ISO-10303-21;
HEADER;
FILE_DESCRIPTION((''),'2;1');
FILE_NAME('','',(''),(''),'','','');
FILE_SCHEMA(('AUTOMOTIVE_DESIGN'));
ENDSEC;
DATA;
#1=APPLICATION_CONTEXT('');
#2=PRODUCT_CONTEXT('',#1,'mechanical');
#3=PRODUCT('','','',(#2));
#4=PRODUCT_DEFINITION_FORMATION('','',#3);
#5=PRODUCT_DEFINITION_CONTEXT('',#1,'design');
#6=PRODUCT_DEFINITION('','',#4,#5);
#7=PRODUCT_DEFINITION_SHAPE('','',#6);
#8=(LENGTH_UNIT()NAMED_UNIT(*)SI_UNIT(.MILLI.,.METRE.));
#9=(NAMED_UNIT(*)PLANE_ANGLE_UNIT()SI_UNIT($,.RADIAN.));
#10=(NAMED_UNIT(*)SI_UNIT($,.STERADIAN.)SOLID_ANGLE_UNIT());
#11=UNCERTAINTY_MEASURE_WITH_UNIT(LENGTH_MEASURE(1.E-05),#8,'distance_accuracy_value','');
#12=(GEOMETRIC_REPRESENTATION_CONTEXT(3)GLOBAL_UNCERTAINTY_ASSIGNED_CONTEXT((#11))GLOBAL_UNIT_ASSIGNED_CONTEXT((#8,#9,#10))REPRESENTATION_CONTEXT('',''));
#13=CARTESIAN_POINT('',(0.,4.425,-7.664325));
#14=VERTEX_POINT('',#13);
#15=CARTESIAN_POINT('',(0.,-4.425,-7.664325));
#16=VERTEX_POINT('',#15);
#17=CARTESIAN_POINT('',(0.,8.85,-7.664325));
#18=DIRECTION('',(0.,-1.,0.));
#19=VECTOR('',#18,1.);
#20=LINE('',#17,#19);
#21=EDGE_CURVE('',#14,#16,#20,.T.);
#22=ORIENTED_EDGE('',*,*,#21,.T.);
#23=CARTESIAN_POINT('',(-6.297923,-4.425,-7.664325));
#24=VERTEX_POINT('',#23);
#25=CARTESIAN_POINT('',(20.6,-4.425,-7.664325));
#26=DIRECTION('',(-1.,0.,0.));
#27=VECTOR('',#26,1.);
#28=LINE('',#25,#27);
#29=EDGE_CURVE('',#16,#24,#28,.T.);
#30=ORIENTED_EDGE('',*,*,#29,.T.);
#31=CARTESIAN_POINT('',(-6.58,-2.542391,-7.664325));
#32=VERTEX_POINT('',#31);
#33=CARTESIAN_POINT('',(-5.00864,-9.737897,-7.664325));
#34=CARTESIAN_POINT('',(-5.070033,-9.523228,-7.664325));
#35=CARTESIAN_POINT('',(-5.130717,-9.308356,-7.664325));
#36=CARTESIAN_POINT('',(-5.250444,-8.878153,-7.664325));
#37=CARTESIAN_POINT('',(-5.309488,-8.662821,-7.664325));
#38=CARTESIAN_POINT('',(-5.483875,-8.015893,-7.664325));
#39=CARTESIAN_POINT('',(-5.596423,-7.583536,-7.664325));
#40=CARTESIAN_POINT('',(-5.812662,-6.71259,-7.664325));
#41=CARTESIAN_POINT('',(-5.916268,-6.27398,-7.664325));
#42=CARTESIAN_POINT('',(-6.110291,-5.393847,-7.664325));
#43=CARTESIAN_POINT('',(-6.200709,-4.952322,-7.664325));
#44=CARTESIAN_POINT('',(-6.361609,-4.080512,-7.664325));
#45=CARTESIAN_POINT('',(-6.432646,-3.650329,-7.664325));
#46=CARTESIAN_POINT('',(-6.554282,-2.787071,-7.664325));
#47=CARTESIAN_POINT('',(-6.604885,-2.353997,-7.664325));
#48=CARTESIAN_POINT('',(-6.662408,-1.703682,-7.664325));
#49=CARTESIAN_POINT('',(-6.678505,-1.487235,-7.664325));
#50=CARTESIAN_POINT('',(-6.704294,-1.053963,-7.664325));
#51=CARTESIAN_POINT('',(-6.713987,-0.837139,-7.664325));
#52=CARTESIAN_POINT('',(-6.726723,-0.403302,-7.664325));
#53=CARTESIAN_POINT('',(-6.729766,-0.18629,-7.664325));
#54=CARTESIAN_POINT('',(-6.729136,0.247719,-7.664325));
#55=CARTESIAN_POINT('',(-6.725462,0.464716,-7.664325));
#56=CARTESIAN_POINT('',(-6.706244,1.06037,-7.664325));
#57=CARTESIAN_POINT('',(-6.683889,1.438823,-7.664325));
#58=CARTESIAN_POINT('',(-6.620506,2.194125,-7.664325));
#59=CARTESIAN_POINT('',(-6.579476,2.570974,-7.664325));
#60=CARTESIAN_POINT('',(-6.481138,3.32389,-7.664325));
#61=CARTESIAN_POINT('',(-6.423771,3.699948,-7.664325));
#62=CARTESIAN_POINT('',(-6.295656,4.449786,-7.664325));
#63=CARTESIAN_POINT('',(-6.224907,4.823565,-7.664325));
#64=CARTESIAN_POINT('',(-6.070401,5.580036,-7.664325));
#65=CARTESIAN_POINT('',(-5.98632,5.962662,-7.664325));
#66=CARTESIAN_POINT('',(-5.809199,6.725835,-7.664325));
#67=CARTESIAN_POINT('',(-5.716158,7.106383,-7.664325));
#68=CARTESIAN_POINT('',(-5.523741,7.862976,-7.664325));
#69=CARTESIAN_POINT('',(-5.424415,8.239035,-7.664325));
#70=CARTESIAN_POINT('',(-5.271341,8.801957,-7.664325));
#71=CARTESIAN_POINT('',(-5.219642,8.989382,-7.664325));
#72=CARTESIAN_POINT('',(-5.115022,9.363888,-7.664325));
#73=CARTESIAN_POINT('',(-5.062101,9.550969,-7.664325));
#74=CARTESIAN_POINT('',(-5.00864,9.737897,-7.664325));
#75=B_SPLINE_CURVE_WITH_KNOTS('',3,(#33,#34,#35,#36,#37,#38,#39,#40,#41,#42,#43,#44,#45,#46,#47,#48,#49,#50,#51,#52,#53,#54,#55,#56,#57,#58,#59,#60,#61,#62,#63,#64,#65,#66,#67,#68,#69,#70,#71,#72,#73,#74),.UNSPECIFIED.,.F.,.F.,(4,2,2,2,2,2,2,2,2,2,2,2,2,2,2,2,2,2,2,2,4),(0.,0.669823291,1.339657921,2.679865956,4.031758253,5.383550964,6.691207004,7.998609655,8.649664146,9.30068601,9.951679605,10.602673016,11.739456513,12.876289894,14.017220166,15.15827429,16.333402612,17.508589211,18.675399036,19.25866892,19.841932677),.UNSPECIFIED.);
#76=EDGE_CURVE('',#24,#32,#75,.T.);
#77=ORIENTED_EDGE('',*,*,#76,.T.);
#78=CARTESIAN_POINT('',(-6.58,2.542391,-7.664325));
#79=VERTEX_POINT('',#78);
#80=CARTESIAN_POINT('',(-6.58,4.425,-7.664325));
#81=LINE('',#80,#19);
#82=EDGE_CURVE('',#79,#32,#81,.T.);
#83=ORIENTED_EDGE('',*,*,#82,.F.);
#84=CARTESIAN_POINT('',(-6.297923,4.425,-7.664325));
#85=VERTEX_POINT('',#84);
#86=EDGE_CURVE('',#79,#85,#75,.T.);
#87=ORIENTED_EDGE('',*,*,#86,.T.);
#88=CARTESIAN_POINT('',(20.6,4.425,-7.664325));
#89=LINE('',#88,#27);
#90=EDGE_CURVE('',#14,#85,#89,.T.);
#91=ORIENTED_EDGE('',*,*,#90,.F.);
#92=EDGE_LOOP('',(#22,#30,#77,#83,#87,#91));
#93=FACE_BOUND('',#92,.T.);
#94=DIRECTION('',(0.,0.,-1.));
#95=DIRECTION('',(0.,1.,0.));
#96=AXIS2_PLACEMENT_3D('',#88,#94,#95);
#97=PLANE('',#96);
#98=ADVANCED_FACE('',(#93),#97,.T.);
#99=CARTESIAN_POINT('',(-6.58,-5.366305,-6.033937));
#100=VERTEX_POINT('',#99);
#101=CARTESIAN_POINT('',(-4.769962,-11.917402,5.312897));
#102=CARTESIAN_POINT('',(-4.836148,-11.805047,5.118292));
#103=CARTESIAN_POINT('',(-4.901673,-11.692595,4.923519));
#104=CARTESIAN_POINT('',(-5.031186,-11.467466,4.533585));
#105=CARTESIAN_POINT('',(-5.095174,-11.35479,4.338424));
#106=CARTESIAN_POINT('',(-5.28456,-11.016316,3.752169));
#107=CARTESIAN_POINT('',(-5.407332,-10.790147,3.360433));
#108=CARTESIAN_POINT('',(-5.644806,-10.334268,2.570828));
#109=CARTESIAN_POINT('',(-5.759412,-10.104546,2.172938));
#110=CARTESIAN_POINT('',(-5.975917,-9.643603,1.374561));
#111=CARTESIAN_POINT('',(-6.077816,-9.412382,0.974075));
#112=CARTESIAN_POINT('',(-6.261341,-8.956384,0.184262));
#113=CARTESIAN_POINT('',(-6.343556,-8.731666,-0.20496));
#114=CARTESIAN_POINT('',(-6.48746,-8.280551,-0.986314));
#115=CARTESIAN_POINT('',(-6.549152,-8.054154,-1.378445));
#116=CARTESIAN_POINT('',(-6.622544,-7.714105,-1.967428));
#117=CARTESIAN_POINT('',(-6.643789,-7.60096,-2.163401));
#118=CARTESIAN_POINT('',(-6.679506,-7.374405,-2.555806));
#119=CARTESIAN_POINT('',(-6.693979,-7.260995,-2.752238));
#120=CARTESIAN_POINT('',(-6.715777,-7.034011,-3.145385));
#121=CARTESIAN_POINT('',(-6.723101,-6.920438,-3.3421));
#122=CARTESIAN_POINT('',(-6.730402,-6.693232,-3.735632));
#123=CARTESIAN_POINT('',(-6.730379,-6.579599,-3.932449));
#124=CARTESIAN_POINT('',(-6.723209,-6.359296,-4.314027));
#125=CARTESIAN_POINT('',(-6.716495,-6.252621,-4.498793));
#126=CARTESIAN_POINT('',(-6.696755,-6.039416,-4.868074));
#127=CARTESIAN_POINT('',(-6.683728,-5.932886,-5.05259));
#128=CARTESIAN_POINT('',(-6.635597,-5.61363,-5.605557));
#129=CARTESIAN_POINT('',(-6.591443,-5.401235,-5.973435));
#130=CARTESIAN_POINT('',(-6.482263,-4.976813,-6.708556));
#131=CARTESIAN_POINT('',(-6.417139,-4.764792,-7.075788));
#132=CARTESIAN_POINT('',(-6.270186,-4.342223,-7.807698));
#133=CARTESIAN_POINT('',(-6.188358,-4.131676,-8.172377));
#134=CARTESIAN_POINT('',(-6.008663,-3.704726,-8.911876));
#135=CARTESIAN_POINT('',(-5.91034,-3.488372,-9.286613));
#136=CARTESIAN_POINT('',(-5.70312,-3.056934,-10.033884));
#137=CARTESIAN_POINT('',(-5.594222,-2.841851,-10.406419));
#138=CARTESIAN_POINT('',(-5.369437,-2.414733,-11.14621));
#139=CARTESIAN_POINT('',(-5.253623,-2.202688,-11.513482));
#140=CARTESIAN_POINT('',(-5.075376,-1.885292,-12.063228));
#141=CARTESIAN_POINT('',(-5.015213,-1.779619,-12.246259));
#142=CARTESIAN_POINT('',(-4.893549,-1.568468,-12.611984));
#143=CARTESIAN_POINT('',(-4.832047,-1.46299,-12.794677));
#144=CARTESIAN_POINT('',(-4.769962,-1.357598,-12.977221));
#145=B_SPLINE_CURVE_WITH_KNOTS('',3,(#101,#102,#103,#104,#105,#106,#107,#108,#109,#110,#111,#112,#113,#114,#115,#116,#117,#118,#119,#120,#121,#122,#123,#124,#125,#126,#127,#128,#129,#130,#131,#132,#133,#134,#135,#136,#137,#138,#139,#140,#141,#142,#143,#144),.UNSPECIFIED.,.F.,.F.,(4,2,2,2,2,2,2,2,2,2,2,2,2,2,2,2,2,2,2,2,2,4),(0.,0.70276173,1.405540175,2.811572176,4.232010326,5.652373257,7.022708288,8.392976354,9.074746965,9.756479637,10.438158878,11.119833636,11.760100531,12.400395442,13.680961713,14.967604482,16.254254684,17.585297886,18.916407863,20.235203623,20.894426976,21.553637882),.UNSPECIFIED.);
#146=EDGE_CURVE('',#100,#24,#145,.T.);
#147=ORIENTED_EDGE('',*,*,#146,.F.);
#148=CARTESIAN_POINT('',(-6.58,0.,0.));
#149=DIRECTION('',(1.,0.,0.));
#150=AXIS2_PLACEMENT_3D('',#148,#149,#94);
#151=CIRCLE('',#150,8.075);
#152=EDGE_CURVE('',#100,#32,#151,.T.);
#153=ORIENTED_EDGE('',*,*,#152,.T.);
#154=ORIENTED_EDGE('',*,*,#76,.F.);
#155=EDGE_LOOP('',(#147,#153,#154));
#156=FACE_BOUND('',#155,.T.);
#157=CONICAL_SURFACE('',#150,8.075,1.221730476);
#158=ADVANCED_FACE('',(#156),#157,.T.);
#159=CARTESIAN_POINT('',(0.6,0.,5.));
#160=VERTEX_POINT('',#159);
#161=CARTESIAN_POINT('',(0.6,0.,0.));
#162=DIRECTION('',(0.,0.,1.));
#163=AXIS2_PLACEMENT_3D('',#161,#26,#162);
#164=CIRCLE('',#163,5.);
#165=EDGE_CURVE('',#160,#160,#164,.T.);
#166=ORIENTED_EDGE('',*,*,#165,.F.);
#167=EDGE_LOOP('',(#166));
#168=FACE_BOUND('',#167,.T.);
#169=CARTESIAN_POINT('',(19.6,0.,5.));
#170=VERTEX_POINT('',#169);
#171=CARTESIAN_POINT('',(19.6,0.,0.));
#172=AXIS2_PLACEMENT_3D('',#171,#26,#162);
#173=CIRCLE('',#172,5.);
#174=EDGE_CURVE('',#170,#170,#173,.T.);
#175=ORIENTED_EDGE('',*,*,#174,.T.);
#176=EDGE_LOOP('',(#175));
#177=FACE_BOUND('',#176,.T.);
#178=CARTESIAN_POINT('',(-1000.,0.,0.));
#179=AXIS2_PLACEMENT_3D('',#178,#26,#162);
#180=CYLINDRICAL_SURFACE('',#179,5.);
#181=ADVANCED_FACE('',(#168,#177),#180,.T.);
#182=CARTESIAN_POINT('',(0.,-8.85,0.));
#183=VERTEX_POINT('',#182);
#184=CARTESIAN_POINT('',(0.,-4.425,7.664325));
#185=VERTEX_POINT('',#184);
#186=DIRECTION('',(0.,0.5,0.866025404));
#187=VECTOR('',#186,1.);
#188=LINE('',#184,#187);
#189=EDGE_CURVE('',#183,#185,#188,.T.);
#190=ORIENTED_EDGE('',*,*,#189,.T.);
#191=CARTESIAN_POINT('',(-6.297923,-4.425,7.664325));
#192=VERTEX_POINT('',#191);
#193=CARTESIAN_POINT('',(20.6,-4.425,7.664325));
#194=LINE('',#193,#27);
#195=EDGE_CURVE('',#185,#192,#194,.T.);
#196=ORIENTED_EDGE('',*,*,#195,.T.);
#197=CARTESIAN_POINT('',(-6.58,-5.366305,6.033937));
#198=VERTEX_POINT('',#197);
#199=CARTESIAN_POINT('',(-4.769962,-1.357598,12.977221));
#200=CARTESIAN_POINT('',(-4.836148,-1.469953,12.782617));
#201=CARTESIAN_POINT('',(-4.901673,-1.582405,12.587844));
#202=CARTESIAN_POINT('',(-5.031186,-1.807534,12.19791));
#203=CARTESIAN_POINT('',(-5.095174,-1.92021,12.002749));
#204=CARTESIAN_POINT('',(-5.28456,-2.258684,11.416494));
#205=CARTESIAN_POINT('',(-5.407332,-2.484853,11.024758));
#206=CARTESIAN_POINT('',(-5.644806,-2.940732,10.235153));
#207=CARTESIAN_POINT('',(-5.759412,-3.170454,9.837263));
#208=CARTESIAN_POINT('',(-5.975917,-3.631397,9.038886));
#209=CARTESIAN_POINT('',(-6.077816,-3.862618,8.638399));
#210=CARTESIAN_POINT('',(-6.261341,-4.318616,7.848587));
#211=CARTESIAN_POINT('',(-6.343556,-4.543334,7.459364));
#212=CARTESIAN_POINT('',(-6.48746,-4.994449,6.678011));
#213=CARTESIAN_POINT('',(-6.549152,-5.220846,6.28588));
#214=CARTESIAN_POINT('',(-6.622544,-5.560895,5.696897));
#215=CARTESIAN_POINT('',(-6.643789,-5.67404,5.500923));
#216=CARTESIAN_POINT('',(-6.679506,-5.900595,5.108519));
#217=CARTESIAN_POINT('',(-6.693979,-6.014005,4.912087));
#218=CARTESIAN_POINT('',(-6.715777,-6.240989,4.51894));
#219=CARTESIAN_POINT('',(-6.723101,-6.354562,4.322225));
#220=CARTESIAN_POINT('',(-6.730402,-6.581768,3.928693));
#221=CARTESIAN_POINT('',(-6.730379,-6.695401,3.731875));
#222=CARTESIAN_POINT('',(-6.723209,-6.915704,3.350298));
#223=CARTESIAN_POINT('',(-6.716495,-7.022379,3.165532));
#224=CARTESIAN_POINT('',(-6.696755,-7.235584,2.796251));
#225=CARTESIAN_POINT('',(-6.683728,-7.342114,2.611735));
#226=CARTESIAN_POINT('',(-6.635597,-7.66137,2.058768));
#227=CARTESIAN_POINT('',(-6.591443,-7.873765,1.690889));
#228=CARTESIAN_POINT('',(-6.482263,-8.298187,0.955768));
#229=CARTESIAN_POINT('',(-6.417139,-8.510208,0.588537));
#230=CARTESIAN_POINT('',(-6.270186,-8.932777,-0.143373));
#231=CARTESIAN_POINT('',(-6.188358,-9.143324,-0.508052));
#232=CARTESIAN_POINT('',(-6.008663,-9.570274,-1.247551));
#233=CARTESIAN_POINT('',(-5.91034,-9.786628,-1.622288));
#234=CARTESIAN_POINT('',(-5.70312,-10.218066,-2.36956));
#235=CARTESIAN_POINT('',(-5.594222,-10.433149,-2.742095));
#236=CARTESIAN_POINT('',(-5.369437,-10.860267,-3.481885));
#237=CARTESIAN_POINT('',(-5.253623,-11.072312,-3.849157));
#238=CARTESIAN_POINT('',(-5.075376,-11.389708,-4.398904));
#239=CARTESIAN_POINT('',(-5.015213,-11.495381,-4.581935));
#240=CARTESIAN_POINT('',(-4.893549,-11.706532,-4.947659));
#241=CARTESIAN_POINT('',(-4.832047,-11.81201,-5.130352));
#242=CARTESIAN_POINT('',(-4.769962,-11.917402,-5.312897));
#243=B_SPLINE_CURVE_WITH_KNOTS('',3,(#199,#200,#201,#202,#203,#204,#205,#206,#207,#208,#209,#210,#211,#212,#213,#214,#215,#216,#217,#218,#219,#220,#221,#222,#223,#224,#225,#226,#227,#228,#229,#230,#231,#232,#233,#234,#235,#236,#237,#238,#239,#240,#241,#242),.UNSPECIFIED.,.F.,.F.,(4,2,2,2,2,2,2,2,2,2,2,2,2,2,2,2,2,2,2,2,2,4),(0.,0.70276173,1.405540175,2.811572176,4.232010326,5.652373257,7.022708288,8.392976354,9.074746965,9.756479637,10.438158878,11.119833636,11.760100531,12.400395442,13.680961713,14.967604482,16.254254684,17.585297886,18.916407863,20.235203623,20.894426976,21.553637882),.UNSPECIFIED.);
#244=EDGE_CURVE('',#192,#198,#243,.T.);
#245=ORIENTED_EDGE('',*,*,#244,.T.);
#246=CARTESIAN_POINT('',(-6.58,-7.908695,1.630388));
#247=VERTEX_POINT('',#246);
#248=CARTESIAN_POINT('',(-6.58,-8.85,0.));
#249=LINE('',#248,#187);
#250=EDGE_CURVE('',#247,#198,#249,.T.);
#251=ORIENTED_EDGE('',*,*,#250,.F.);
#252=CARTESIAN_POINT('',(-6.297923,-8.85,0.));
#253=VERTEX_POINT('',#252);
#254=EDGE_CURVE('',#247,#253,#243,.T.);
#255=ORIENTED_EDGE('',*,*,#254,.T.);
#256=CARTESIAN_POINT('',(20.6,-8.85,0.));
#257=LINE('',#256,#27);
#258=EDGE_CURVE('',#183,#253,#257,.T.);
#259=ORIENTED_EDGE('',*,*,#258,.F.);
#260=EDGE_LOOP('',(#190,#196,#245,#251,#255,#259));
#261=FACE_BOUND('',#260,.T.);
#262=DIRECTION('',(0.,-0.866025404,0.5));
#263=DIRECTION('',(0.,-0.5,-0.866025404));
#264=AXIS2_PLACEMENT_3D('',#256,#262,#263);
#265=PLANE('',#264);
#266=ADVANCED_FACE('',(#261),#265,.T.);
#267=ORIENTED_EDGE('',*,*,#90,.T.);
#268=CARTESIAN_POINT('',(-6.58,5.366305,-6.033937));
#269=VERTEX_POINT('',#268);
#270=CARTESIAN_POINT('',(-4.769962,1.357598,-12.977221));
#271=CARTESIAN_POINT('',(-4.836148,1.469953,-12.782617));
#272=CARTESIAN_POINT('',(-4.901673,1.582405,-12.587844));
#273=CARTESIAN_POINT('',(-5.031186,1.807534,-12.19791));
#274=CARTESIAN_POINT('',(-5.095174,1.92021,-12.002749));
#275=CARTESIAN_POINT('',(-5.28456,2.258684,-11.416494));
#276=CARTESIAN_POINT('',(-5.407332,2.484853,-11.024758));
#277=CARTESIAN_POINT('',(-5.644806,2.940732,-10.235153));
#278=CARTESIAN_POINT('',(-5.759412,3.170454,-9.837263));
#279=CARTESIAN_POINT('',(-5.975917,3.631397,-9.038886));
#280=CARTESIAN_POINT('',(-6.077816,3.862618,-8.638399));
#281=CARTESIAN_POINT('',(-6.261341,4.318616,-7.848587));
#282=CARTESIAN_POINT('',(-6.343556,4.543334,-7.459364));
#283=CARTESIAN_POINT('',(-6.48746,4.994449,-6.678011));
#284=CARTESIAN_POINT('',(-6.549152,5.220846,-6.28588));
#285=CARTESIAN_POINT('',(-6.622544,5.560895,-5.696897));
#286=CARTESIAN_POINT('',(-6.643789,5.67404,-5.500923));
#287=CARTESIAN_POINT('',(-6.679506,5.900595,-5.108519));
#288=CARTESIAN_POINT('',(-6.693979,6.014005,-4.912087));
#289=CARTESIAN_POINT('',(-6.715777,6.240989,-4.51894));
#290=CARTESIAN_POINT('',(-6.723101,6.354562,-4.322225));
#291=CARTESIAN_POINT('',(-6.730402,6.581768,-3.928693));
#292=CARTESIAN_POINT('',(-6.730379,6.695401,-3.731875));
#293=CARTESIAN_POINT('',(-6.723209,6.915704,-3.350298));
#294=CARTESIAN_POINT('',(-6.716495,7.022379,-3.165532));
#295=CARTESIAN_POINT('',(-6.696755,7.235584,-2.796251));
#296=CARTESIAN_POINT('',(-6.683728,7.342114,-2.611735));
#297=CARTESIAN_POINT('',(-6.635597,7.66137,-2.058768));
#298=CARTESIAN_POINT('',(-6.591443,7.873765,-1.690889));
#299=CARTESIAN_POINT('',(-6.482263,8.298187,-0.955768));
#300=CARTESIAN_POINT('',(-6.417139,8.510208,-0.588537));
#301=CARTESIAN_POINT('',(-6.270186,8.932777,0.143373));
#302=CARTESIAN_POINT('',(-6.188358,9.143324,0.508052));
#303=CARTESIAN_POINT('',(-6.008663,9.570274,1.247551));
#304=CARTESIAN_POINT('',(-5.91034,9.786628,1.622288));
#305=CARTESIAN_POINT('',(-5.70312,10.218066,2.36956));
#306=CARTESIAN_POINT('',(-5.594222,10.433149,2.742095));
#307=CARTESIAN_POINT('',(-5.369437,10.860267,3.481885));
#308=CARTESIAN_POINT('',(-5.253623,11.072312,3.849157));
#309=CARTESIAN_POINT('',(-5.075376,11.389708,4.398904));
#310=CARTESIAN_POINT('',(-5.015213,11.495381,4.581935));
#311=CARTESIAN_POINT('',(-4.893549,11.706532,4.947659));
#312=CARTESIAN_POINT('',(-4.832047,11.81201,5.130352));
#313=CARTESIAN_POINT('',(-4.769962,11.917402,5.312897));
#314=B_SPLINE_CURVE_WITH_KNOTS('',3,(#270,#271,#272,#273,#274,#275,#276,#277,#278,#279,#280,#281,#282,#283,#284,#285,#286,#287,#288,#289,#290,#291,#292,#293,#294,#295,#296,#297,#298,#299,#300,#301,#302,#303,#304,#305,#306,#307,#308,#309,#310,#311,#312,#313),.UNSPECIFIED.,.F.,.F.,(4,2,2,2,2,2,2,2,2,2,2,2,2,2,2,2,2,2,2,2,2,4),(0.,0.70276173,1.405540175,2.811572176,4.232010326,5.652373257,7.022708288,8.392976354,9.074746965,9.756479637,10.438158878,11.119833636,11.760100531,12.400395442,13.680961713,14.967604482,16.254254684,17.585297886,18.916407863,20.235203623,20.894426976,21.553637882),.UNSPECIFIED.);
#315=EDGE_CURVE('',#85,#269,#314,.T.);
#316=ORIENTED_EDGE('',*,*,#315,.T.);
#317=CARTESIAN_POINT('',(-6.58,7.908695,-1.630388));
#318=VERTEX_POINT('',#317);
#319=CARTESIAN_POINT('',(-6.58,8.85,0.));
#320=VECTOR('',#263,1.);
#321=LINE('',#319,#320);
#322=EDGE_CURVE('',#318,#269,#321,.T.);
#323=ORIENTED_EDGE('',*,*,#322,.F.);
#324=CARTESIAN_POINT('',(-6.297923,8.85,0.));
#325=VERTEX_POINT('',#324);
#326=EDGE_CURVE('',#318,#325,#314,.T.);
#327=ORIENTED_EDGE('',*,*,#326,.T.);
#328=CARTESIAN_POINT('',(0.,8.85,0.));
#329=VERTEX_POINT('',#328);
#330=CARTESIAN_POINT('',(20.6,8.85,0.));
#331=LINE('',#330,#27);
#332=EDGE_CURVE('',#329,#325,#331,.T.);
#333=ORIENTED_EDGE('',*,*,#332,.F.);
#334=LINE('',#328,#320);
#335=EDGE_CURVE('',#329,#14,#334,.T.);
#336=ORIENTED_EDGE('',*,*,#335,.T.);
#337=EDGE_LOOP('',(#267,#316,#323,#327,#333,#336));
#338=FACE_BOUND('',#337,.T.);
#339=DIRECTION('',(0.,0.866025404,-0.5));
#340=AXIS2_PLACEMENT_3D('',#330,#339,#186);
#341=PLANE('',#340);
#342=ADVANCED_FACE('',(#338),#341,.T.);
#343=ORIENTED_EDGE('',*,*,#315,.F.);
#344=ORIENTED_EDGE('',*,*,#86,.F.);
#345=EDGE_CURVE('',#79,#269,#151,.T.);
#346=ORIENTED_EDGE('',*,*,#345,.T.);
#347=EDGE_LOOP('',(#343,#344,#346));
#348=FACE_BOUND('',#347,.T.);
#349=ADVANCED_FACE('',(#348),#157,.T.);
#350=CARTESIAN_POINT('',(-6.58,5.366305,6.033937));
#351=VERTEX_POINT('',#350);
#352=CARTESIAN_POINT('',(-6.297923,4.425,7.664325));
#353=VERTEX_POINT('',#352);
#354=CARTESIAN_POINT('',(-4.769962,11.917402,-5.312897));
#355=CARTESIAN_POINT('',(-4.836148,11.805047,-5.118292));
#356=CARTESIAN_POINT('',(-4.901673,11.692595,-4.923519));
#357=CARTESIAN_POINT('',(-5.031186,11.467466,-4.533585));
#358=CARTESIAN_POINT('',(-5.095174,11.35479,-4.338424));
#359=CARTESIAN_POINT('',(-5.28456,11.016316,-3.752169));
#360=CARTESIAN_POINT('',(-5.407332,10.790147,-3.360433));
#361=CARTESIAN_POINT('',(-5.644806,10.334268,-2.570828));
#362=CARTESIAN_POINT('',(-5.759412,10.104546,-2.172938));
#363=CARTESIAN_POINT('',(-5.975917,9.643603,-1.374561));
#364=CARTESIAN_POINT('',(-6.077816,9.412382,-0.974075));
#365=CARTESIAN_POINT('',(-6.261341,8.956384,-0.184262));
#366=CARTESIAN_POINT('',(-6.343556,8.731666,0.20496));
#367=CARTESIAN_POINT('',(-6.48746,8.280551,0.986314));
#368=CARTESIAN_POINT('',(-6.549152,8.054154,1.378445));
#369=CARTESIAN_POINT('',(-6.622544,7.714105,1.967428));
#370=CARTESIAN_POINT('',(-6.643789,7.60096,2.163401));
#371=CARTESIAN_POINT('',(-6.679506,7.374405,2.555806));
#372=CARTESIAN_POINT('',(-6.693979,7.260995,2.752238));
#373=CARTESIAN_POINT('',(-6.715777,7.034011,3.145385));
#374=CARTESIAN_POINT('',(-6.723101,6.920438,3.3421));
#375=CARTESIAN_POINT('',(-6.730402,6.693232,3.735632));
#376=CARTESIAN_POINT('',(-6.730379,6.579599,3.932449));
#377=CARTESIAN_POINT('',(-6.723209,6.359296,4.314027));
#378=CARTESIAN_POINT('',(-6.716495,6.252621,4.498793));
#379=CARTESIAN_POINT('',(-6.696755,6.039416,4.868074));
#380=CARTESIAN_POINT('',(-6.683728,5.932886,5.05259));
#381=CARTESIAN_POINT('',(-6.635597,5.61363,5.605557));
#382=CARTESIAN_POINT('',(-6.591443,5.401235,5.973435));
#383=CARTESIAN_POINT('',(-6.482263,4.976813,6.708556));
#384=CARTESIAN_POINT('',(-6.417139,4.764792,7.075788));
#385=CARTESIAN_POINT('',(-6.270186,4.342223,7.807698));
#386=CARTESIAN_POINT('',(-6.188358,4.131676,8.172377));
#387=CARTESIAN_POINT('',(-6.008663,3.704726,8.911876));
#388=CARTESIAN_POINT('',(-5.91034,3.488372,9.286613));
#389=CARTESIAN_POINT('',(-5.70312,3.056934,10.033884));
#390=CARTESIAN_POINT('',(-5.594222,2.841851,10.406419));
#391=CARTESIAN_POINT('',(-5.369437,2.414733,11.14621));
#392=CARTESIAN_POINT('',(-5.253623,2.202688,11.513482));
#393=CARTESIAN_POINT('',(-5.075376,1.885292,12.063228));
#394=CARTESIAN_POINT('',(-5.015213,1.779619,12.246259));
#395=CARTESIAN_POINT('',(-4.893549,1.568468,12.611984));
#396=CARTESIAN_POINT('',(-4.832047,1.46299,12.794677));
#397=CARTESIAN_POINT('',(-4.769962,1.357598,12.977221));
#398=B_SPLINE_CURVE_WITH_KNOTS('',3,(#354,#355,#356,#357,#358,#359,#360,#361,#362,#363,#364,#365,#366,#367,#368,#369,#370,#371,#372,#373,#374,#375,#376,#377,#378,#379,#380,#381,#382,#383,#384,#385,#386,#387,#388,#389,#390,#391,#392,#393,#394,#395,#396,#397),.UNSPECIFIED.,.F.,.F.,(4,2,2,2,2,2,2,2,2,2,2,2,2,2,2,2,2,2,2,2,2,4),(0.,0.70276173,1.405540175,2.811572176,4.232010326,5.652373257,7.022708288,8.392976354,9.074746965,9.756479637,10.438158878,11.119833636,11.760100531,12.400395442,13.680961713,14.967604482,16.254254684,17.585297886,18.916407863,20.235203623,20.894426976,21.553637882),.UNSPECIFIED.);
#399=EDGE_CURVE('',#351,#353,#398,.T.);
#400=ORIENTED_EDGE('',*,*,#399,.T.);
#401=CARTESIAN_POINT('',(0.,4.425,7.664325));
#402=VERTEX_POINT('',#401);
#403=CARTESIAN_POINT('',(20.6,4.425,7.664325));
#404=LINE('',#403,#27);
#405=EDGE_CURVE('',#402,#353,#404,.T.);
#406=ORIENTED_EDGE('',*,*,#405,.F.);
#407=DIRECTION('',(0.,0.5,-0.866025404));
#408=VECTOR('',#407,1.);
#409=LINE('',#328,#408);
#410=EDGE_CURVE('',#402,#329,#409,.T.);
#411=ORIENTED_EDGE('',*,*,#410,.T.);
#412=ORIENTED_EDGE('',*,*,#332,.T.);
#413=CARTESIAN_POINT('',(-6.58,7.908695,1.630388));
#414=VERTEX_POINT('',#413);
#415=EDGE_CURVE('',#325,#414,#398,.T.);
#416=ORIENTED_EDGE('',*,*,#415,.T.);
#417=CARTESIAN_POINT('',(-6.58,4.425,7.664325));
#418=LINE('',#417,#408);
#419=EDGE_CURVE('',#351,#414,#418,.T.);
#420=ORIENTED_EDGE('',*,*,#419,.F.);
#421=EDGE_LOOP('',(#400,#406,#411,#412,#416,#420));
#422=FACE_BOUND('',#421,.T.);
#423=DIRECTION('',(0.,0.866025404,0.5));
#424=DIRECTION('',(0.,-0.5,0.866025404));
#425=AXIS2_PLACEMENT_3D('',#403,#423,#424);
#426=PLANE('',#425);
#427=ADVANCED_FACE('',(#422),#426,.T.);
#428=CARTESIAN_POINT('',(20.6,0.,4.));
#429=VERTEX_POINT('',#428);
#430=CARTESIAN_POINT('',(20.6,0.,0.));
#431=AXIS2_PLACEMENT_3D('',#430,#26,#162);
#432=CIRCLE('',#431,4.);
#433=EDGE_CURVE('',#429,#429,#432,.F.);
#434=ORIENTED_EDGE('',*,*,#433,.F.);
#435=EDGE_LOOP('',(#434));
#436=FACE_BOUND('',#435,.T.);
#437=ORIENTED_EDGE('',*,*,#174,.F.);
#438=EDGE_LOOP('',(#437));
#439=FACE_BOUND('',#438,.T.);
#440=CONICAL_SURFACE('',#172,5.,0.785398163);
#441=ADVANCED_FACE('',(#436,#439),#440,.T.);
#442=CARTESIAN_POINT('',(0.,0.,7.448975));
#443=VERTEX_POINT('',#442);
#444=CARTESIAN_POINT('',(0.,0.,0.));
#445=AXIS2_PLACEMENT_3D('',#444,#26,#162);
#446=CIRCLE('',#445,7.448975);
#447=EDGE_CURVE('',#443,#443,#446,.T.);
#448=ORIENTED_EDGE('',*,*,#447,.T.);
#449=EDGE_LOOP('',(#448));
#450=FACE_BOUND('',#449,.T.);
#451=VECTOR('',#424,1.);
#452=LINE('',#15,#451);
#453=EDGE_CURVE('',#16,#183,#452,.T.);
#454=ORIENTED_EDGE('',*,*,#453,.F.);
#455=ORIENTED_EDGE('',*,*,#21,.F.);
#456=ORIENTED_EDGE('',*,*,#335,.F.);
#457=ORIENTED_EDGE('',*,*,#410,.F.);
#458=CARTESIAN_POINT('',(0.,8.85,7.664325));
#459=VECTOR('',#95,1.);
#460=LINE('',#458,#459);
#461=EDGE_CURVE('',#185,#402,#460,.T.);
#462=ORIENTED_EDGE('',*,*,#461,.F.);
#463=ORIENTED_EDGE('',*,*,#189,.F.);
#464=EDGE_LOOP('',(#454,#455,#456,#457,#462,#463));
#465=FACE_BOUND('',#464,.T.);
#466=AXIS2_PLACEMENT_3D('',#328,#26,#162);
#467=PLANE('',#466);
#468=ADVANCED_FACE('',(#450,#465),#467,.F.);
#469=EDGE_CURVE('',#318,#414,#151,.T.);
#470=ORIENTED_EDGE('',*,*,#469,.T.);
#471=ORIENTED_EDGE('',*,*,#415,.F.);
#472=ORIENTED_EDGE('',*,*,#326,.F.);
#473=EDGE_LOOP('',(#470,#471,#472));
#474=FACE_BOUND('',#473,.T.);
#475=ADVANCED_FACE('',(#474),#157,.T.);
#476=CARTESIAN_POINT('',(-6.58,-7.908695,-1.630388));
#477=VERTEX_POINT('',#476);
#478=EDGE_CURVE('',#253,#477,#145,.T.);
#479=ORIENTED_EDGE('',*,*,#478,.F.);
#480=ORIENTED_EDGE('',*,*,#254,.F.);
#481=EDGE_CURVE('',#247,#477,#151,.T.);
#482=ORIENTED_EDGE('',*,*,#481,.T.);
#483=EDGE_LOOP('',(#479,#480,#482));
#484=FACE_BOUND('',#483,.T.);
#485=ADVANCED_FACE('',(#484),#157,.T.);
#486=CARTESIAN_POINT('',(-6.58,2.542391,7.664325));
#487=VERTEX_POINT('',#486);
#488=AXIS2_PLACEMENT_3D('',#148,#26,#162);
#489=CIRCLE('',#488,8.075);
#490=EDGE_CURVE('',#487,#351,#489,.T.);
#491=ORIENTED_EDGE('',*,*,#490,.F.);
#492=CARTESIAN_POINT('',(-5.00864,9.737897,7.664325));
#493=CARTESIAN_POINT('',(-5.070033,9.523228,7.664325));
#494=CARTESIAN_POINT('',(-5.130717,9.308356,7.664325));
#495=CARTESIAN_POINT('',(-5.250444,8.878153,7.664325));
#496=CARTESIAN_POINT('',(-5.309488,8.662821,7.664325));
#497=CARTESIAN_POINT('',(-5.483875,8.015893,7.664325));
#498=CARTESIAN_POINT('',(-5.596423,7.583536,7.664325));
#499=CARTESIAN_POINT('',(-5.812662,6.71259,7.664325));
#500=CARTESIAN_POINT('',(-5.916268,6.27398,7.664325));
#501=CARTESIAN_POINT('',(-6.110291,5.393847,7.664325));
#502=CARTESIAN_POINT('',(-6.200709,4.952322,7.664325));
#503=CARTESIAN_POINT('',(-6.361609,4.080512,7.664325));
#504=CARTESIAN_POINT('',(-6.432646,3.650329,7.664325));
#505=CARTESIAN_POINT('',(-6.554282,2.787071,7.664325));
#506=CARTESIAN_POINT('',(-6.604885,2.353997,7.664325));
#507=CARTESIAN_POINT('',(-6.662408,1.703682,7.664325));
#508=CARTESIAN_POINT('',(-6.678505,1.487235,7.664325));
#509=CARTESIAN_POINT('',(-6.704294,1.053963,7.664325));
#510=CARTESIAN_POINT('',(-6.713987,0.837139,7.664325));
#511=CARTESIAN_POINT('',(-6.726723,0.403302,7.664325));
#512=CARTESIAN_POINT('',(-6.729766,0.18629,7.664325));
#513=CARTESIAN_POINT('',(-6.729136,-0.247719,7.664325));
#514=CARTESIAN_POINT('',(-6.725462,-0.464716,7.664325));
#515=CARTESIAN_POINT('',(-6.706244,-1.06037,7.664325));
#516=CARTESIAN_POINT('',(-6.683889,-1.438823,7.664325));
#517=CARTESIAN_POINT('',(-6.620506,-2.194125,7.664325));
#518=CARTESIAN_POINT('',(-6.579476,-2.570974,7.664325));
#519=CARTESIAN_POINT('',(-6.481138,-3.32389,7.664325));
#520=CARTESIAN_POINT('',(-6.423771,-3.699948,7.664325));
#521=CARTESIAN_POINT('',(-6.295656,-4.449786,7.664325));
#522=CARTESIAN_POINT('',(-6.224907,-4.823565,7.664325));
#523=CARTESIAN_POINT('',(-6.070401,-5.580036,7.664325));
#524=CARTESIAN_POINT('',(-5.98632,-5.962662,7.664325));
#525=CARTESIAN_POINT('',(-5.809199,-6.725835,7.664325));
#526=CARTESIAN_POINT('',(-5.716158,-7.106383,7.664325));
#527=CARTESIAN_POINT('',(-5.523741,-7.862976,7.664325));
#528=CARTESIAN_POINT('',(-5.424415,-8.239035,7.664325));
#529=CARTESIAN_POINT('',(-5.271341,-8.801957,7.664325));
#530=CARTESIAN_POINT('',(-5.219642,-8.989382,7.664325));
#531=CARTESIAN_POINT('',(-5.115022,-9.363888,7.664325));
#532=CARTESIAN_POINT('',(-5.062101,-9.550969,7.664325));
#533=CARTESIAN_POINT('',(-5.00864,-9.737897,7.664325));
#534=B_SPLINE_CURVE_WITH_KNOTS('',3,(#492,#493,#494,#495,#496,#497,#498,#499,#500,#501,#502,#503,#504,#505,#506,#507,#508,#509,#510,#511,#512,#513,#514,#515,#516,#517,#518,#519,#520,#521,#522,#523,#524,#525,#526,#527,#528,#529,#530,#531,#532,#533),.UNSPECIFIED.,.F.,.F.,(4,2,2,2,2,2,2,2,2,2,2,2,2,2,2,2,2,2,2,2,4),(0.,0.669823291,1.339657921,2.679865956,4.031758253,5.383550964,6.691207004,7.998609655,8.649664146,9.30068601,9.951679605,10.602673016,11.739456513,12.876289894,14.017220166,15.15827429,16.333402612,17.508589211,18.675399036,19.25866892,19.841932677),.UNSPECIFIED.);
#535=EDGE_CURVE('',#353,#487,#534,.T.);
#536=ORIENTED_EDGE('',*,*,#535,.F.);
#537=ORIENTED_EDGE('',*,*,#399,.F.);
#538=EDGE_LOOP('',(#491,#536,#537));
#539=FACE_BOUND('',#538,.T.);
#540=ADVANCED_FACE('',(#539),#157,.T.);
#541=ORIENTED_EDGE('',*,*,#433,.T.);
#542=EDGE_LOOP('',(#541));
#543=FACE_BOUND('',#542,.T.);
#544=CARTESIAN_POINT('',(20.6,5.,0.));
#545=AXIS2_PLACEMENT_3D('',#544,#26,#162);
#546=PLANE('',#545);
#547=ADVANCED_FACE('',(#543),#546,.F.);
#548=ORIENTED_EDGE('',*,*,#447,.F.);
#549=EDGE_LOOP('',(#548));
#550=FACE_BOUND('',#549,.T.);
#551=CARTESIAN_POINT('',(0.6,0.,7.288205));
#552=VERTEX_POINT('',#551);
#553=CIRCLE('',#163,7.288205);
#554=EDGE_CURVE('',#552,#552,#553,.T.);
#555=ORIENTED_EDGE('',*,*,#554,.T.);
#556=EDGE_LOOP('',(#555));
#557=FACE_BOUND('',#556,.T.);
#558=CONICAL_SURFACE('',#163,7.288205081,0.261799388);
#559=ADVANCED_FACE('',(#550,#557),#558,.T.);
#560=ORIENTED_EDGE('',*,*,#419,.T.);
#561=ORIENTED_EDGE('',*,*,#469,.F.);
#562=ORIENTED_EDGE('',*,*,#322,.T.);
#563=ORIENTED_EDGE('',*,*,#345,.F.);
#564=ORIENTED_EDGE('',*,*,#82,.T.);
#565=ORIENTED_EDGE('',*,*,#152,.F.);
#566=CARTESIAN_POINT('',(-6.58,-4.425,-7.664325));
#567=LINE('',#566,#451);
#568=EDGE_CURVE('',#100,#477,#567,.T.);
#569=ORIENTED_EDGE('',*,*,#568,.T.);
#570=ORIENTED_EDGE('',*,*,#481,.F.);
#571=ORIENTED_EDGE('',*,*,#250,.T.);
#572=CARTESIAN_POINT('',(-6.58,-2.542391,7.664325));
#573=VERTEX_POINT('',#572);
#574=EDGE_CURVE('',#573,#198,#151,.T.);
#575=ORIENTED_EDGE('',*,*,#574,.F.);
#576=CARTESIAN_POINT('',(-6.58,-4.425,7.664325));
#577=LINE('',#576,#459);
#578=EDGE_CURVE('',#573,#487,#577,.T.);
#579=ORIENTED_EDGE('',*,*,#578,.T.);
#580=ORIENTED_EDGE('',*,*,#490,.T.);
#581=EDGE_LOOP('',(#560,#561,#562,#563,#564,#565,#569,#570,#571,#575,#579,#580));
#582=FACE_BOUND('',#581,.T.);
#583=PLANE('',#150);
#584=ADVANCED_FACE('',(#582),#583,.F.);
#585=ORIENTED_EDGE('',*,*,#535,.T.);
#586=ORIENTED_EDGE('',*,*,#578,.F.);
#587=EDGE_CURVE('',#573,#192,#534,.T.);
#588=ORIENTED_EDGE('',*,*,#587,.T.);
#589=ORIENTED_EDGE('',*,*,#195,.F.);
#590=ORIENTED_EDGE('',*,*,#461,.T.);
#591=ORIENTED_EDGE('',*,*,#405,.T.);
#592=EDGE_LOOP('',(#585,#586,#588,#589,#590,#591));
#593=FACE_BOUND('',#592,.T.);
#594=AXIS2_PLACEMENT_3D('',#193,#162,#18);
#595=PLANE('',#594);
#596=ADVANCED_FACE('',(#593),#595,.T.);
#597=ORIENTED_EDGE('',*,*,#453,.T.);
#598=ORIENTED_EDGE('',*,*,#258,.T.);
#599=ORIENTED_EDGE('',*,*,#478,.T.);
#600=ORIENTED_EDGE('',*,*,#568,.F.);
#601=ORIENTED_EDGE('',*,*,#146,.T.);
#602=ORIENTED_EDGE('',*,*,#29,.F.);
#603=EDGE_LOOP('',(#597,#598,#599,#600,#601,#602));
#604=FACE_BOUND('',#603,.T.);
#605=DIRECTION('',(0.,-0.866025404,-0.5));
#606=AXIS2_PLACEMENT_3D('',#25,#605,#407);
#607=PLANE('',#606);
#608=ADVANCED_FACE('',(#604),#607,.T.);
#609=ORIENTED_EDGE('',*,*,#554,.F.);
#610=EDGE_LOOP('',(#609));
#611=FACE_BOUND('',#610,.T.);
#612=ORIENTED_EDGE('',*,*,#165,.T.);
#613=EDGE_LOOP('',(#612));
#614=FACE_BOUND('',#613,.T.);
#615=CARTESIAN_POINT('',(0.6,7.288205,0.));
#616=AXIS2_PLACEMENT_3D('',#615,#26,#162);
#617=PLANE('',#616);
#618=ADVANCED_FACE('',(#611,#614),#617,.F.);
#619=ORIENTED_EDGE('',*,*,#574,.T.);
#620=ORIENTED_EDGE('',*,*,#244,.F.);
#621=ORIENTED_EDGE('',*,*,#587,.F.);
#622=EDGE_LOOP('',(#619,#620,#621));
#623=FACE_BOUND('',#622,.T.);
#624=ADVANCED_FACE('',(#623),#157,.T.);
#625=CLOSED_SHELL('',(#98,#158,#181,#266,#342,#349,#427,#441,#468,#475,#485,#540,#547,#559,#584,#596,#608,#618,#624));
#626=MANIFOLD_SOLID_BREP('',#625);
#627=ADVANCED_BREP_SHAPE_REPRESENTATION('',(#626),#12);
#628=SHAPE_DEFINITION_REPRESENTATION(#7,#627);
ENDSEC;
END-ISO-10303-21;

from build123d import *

# Parameters (mm, degrees)
SKETCH_2_OUTSIDE_W  = 27.09
SKETCH_2_OUTSIDE_H  = 27.09
CUT_EXTRUDE_1_DEPTH = 28.18
CHAMFER_1_SIZE      = 1


with BuildPart() as part:
    # Эскиз1 → Повернуть1 (revolve)
    with BuildSketch(Plane.XY):
        Polygon((-6.58, 0), (-6.58, 8.85), (0, 8.85), (0, 7.448974596), (0.6, 7.288205081), (0.6, 5), (20.6, 5), (20.6, 0), align=None)
    revolve(axis=Axis((-1000, 0, 0), (1, 0, 0)))

    # Эскиз2 outside → Вырез-Вытянуть1 (cut, through all)
    with BuildSketch(Plane.ZY.offset(6.58)):
        Rectangle(SKETCH_2_OUTSIDE_W, SKETCH_2_OUTSIDE_H)
        Polygon((0, -8.85), (7.664324823, -4.425), (7.664324823, 4.425), (0, 8.85), (-7.664324823, 4.425), (-7.664324823, -4.425), align=None, mode=Mode.SUBTRACT)
    extrude(amount=-CUT_EXTRUDE_1_DEPTH, mode=Mode.SUBTRACT)

    # Эскиз4 → Вырез-Повернуть1 (revolve, cut)
    with BuildSketch(Plane.XY):
        Polygon((-6.58, 8.075), (-6.297923068, 8.85), (-6.58, 8.85), align=None)
    revolve(axis=Axis((-1000, 0, 0), (1, 0, 0)), mode=Mode.SUBTRACT)

    # Фаска1
    chamfer_1_edges = [part.edges().sort_by_distance(p)[0] for p in [
        (20.6, -5, 0),
    ]]
    chamfer(chamfer_1_edges, length=CHAMFER_1_SIZE)


solid = part.part
